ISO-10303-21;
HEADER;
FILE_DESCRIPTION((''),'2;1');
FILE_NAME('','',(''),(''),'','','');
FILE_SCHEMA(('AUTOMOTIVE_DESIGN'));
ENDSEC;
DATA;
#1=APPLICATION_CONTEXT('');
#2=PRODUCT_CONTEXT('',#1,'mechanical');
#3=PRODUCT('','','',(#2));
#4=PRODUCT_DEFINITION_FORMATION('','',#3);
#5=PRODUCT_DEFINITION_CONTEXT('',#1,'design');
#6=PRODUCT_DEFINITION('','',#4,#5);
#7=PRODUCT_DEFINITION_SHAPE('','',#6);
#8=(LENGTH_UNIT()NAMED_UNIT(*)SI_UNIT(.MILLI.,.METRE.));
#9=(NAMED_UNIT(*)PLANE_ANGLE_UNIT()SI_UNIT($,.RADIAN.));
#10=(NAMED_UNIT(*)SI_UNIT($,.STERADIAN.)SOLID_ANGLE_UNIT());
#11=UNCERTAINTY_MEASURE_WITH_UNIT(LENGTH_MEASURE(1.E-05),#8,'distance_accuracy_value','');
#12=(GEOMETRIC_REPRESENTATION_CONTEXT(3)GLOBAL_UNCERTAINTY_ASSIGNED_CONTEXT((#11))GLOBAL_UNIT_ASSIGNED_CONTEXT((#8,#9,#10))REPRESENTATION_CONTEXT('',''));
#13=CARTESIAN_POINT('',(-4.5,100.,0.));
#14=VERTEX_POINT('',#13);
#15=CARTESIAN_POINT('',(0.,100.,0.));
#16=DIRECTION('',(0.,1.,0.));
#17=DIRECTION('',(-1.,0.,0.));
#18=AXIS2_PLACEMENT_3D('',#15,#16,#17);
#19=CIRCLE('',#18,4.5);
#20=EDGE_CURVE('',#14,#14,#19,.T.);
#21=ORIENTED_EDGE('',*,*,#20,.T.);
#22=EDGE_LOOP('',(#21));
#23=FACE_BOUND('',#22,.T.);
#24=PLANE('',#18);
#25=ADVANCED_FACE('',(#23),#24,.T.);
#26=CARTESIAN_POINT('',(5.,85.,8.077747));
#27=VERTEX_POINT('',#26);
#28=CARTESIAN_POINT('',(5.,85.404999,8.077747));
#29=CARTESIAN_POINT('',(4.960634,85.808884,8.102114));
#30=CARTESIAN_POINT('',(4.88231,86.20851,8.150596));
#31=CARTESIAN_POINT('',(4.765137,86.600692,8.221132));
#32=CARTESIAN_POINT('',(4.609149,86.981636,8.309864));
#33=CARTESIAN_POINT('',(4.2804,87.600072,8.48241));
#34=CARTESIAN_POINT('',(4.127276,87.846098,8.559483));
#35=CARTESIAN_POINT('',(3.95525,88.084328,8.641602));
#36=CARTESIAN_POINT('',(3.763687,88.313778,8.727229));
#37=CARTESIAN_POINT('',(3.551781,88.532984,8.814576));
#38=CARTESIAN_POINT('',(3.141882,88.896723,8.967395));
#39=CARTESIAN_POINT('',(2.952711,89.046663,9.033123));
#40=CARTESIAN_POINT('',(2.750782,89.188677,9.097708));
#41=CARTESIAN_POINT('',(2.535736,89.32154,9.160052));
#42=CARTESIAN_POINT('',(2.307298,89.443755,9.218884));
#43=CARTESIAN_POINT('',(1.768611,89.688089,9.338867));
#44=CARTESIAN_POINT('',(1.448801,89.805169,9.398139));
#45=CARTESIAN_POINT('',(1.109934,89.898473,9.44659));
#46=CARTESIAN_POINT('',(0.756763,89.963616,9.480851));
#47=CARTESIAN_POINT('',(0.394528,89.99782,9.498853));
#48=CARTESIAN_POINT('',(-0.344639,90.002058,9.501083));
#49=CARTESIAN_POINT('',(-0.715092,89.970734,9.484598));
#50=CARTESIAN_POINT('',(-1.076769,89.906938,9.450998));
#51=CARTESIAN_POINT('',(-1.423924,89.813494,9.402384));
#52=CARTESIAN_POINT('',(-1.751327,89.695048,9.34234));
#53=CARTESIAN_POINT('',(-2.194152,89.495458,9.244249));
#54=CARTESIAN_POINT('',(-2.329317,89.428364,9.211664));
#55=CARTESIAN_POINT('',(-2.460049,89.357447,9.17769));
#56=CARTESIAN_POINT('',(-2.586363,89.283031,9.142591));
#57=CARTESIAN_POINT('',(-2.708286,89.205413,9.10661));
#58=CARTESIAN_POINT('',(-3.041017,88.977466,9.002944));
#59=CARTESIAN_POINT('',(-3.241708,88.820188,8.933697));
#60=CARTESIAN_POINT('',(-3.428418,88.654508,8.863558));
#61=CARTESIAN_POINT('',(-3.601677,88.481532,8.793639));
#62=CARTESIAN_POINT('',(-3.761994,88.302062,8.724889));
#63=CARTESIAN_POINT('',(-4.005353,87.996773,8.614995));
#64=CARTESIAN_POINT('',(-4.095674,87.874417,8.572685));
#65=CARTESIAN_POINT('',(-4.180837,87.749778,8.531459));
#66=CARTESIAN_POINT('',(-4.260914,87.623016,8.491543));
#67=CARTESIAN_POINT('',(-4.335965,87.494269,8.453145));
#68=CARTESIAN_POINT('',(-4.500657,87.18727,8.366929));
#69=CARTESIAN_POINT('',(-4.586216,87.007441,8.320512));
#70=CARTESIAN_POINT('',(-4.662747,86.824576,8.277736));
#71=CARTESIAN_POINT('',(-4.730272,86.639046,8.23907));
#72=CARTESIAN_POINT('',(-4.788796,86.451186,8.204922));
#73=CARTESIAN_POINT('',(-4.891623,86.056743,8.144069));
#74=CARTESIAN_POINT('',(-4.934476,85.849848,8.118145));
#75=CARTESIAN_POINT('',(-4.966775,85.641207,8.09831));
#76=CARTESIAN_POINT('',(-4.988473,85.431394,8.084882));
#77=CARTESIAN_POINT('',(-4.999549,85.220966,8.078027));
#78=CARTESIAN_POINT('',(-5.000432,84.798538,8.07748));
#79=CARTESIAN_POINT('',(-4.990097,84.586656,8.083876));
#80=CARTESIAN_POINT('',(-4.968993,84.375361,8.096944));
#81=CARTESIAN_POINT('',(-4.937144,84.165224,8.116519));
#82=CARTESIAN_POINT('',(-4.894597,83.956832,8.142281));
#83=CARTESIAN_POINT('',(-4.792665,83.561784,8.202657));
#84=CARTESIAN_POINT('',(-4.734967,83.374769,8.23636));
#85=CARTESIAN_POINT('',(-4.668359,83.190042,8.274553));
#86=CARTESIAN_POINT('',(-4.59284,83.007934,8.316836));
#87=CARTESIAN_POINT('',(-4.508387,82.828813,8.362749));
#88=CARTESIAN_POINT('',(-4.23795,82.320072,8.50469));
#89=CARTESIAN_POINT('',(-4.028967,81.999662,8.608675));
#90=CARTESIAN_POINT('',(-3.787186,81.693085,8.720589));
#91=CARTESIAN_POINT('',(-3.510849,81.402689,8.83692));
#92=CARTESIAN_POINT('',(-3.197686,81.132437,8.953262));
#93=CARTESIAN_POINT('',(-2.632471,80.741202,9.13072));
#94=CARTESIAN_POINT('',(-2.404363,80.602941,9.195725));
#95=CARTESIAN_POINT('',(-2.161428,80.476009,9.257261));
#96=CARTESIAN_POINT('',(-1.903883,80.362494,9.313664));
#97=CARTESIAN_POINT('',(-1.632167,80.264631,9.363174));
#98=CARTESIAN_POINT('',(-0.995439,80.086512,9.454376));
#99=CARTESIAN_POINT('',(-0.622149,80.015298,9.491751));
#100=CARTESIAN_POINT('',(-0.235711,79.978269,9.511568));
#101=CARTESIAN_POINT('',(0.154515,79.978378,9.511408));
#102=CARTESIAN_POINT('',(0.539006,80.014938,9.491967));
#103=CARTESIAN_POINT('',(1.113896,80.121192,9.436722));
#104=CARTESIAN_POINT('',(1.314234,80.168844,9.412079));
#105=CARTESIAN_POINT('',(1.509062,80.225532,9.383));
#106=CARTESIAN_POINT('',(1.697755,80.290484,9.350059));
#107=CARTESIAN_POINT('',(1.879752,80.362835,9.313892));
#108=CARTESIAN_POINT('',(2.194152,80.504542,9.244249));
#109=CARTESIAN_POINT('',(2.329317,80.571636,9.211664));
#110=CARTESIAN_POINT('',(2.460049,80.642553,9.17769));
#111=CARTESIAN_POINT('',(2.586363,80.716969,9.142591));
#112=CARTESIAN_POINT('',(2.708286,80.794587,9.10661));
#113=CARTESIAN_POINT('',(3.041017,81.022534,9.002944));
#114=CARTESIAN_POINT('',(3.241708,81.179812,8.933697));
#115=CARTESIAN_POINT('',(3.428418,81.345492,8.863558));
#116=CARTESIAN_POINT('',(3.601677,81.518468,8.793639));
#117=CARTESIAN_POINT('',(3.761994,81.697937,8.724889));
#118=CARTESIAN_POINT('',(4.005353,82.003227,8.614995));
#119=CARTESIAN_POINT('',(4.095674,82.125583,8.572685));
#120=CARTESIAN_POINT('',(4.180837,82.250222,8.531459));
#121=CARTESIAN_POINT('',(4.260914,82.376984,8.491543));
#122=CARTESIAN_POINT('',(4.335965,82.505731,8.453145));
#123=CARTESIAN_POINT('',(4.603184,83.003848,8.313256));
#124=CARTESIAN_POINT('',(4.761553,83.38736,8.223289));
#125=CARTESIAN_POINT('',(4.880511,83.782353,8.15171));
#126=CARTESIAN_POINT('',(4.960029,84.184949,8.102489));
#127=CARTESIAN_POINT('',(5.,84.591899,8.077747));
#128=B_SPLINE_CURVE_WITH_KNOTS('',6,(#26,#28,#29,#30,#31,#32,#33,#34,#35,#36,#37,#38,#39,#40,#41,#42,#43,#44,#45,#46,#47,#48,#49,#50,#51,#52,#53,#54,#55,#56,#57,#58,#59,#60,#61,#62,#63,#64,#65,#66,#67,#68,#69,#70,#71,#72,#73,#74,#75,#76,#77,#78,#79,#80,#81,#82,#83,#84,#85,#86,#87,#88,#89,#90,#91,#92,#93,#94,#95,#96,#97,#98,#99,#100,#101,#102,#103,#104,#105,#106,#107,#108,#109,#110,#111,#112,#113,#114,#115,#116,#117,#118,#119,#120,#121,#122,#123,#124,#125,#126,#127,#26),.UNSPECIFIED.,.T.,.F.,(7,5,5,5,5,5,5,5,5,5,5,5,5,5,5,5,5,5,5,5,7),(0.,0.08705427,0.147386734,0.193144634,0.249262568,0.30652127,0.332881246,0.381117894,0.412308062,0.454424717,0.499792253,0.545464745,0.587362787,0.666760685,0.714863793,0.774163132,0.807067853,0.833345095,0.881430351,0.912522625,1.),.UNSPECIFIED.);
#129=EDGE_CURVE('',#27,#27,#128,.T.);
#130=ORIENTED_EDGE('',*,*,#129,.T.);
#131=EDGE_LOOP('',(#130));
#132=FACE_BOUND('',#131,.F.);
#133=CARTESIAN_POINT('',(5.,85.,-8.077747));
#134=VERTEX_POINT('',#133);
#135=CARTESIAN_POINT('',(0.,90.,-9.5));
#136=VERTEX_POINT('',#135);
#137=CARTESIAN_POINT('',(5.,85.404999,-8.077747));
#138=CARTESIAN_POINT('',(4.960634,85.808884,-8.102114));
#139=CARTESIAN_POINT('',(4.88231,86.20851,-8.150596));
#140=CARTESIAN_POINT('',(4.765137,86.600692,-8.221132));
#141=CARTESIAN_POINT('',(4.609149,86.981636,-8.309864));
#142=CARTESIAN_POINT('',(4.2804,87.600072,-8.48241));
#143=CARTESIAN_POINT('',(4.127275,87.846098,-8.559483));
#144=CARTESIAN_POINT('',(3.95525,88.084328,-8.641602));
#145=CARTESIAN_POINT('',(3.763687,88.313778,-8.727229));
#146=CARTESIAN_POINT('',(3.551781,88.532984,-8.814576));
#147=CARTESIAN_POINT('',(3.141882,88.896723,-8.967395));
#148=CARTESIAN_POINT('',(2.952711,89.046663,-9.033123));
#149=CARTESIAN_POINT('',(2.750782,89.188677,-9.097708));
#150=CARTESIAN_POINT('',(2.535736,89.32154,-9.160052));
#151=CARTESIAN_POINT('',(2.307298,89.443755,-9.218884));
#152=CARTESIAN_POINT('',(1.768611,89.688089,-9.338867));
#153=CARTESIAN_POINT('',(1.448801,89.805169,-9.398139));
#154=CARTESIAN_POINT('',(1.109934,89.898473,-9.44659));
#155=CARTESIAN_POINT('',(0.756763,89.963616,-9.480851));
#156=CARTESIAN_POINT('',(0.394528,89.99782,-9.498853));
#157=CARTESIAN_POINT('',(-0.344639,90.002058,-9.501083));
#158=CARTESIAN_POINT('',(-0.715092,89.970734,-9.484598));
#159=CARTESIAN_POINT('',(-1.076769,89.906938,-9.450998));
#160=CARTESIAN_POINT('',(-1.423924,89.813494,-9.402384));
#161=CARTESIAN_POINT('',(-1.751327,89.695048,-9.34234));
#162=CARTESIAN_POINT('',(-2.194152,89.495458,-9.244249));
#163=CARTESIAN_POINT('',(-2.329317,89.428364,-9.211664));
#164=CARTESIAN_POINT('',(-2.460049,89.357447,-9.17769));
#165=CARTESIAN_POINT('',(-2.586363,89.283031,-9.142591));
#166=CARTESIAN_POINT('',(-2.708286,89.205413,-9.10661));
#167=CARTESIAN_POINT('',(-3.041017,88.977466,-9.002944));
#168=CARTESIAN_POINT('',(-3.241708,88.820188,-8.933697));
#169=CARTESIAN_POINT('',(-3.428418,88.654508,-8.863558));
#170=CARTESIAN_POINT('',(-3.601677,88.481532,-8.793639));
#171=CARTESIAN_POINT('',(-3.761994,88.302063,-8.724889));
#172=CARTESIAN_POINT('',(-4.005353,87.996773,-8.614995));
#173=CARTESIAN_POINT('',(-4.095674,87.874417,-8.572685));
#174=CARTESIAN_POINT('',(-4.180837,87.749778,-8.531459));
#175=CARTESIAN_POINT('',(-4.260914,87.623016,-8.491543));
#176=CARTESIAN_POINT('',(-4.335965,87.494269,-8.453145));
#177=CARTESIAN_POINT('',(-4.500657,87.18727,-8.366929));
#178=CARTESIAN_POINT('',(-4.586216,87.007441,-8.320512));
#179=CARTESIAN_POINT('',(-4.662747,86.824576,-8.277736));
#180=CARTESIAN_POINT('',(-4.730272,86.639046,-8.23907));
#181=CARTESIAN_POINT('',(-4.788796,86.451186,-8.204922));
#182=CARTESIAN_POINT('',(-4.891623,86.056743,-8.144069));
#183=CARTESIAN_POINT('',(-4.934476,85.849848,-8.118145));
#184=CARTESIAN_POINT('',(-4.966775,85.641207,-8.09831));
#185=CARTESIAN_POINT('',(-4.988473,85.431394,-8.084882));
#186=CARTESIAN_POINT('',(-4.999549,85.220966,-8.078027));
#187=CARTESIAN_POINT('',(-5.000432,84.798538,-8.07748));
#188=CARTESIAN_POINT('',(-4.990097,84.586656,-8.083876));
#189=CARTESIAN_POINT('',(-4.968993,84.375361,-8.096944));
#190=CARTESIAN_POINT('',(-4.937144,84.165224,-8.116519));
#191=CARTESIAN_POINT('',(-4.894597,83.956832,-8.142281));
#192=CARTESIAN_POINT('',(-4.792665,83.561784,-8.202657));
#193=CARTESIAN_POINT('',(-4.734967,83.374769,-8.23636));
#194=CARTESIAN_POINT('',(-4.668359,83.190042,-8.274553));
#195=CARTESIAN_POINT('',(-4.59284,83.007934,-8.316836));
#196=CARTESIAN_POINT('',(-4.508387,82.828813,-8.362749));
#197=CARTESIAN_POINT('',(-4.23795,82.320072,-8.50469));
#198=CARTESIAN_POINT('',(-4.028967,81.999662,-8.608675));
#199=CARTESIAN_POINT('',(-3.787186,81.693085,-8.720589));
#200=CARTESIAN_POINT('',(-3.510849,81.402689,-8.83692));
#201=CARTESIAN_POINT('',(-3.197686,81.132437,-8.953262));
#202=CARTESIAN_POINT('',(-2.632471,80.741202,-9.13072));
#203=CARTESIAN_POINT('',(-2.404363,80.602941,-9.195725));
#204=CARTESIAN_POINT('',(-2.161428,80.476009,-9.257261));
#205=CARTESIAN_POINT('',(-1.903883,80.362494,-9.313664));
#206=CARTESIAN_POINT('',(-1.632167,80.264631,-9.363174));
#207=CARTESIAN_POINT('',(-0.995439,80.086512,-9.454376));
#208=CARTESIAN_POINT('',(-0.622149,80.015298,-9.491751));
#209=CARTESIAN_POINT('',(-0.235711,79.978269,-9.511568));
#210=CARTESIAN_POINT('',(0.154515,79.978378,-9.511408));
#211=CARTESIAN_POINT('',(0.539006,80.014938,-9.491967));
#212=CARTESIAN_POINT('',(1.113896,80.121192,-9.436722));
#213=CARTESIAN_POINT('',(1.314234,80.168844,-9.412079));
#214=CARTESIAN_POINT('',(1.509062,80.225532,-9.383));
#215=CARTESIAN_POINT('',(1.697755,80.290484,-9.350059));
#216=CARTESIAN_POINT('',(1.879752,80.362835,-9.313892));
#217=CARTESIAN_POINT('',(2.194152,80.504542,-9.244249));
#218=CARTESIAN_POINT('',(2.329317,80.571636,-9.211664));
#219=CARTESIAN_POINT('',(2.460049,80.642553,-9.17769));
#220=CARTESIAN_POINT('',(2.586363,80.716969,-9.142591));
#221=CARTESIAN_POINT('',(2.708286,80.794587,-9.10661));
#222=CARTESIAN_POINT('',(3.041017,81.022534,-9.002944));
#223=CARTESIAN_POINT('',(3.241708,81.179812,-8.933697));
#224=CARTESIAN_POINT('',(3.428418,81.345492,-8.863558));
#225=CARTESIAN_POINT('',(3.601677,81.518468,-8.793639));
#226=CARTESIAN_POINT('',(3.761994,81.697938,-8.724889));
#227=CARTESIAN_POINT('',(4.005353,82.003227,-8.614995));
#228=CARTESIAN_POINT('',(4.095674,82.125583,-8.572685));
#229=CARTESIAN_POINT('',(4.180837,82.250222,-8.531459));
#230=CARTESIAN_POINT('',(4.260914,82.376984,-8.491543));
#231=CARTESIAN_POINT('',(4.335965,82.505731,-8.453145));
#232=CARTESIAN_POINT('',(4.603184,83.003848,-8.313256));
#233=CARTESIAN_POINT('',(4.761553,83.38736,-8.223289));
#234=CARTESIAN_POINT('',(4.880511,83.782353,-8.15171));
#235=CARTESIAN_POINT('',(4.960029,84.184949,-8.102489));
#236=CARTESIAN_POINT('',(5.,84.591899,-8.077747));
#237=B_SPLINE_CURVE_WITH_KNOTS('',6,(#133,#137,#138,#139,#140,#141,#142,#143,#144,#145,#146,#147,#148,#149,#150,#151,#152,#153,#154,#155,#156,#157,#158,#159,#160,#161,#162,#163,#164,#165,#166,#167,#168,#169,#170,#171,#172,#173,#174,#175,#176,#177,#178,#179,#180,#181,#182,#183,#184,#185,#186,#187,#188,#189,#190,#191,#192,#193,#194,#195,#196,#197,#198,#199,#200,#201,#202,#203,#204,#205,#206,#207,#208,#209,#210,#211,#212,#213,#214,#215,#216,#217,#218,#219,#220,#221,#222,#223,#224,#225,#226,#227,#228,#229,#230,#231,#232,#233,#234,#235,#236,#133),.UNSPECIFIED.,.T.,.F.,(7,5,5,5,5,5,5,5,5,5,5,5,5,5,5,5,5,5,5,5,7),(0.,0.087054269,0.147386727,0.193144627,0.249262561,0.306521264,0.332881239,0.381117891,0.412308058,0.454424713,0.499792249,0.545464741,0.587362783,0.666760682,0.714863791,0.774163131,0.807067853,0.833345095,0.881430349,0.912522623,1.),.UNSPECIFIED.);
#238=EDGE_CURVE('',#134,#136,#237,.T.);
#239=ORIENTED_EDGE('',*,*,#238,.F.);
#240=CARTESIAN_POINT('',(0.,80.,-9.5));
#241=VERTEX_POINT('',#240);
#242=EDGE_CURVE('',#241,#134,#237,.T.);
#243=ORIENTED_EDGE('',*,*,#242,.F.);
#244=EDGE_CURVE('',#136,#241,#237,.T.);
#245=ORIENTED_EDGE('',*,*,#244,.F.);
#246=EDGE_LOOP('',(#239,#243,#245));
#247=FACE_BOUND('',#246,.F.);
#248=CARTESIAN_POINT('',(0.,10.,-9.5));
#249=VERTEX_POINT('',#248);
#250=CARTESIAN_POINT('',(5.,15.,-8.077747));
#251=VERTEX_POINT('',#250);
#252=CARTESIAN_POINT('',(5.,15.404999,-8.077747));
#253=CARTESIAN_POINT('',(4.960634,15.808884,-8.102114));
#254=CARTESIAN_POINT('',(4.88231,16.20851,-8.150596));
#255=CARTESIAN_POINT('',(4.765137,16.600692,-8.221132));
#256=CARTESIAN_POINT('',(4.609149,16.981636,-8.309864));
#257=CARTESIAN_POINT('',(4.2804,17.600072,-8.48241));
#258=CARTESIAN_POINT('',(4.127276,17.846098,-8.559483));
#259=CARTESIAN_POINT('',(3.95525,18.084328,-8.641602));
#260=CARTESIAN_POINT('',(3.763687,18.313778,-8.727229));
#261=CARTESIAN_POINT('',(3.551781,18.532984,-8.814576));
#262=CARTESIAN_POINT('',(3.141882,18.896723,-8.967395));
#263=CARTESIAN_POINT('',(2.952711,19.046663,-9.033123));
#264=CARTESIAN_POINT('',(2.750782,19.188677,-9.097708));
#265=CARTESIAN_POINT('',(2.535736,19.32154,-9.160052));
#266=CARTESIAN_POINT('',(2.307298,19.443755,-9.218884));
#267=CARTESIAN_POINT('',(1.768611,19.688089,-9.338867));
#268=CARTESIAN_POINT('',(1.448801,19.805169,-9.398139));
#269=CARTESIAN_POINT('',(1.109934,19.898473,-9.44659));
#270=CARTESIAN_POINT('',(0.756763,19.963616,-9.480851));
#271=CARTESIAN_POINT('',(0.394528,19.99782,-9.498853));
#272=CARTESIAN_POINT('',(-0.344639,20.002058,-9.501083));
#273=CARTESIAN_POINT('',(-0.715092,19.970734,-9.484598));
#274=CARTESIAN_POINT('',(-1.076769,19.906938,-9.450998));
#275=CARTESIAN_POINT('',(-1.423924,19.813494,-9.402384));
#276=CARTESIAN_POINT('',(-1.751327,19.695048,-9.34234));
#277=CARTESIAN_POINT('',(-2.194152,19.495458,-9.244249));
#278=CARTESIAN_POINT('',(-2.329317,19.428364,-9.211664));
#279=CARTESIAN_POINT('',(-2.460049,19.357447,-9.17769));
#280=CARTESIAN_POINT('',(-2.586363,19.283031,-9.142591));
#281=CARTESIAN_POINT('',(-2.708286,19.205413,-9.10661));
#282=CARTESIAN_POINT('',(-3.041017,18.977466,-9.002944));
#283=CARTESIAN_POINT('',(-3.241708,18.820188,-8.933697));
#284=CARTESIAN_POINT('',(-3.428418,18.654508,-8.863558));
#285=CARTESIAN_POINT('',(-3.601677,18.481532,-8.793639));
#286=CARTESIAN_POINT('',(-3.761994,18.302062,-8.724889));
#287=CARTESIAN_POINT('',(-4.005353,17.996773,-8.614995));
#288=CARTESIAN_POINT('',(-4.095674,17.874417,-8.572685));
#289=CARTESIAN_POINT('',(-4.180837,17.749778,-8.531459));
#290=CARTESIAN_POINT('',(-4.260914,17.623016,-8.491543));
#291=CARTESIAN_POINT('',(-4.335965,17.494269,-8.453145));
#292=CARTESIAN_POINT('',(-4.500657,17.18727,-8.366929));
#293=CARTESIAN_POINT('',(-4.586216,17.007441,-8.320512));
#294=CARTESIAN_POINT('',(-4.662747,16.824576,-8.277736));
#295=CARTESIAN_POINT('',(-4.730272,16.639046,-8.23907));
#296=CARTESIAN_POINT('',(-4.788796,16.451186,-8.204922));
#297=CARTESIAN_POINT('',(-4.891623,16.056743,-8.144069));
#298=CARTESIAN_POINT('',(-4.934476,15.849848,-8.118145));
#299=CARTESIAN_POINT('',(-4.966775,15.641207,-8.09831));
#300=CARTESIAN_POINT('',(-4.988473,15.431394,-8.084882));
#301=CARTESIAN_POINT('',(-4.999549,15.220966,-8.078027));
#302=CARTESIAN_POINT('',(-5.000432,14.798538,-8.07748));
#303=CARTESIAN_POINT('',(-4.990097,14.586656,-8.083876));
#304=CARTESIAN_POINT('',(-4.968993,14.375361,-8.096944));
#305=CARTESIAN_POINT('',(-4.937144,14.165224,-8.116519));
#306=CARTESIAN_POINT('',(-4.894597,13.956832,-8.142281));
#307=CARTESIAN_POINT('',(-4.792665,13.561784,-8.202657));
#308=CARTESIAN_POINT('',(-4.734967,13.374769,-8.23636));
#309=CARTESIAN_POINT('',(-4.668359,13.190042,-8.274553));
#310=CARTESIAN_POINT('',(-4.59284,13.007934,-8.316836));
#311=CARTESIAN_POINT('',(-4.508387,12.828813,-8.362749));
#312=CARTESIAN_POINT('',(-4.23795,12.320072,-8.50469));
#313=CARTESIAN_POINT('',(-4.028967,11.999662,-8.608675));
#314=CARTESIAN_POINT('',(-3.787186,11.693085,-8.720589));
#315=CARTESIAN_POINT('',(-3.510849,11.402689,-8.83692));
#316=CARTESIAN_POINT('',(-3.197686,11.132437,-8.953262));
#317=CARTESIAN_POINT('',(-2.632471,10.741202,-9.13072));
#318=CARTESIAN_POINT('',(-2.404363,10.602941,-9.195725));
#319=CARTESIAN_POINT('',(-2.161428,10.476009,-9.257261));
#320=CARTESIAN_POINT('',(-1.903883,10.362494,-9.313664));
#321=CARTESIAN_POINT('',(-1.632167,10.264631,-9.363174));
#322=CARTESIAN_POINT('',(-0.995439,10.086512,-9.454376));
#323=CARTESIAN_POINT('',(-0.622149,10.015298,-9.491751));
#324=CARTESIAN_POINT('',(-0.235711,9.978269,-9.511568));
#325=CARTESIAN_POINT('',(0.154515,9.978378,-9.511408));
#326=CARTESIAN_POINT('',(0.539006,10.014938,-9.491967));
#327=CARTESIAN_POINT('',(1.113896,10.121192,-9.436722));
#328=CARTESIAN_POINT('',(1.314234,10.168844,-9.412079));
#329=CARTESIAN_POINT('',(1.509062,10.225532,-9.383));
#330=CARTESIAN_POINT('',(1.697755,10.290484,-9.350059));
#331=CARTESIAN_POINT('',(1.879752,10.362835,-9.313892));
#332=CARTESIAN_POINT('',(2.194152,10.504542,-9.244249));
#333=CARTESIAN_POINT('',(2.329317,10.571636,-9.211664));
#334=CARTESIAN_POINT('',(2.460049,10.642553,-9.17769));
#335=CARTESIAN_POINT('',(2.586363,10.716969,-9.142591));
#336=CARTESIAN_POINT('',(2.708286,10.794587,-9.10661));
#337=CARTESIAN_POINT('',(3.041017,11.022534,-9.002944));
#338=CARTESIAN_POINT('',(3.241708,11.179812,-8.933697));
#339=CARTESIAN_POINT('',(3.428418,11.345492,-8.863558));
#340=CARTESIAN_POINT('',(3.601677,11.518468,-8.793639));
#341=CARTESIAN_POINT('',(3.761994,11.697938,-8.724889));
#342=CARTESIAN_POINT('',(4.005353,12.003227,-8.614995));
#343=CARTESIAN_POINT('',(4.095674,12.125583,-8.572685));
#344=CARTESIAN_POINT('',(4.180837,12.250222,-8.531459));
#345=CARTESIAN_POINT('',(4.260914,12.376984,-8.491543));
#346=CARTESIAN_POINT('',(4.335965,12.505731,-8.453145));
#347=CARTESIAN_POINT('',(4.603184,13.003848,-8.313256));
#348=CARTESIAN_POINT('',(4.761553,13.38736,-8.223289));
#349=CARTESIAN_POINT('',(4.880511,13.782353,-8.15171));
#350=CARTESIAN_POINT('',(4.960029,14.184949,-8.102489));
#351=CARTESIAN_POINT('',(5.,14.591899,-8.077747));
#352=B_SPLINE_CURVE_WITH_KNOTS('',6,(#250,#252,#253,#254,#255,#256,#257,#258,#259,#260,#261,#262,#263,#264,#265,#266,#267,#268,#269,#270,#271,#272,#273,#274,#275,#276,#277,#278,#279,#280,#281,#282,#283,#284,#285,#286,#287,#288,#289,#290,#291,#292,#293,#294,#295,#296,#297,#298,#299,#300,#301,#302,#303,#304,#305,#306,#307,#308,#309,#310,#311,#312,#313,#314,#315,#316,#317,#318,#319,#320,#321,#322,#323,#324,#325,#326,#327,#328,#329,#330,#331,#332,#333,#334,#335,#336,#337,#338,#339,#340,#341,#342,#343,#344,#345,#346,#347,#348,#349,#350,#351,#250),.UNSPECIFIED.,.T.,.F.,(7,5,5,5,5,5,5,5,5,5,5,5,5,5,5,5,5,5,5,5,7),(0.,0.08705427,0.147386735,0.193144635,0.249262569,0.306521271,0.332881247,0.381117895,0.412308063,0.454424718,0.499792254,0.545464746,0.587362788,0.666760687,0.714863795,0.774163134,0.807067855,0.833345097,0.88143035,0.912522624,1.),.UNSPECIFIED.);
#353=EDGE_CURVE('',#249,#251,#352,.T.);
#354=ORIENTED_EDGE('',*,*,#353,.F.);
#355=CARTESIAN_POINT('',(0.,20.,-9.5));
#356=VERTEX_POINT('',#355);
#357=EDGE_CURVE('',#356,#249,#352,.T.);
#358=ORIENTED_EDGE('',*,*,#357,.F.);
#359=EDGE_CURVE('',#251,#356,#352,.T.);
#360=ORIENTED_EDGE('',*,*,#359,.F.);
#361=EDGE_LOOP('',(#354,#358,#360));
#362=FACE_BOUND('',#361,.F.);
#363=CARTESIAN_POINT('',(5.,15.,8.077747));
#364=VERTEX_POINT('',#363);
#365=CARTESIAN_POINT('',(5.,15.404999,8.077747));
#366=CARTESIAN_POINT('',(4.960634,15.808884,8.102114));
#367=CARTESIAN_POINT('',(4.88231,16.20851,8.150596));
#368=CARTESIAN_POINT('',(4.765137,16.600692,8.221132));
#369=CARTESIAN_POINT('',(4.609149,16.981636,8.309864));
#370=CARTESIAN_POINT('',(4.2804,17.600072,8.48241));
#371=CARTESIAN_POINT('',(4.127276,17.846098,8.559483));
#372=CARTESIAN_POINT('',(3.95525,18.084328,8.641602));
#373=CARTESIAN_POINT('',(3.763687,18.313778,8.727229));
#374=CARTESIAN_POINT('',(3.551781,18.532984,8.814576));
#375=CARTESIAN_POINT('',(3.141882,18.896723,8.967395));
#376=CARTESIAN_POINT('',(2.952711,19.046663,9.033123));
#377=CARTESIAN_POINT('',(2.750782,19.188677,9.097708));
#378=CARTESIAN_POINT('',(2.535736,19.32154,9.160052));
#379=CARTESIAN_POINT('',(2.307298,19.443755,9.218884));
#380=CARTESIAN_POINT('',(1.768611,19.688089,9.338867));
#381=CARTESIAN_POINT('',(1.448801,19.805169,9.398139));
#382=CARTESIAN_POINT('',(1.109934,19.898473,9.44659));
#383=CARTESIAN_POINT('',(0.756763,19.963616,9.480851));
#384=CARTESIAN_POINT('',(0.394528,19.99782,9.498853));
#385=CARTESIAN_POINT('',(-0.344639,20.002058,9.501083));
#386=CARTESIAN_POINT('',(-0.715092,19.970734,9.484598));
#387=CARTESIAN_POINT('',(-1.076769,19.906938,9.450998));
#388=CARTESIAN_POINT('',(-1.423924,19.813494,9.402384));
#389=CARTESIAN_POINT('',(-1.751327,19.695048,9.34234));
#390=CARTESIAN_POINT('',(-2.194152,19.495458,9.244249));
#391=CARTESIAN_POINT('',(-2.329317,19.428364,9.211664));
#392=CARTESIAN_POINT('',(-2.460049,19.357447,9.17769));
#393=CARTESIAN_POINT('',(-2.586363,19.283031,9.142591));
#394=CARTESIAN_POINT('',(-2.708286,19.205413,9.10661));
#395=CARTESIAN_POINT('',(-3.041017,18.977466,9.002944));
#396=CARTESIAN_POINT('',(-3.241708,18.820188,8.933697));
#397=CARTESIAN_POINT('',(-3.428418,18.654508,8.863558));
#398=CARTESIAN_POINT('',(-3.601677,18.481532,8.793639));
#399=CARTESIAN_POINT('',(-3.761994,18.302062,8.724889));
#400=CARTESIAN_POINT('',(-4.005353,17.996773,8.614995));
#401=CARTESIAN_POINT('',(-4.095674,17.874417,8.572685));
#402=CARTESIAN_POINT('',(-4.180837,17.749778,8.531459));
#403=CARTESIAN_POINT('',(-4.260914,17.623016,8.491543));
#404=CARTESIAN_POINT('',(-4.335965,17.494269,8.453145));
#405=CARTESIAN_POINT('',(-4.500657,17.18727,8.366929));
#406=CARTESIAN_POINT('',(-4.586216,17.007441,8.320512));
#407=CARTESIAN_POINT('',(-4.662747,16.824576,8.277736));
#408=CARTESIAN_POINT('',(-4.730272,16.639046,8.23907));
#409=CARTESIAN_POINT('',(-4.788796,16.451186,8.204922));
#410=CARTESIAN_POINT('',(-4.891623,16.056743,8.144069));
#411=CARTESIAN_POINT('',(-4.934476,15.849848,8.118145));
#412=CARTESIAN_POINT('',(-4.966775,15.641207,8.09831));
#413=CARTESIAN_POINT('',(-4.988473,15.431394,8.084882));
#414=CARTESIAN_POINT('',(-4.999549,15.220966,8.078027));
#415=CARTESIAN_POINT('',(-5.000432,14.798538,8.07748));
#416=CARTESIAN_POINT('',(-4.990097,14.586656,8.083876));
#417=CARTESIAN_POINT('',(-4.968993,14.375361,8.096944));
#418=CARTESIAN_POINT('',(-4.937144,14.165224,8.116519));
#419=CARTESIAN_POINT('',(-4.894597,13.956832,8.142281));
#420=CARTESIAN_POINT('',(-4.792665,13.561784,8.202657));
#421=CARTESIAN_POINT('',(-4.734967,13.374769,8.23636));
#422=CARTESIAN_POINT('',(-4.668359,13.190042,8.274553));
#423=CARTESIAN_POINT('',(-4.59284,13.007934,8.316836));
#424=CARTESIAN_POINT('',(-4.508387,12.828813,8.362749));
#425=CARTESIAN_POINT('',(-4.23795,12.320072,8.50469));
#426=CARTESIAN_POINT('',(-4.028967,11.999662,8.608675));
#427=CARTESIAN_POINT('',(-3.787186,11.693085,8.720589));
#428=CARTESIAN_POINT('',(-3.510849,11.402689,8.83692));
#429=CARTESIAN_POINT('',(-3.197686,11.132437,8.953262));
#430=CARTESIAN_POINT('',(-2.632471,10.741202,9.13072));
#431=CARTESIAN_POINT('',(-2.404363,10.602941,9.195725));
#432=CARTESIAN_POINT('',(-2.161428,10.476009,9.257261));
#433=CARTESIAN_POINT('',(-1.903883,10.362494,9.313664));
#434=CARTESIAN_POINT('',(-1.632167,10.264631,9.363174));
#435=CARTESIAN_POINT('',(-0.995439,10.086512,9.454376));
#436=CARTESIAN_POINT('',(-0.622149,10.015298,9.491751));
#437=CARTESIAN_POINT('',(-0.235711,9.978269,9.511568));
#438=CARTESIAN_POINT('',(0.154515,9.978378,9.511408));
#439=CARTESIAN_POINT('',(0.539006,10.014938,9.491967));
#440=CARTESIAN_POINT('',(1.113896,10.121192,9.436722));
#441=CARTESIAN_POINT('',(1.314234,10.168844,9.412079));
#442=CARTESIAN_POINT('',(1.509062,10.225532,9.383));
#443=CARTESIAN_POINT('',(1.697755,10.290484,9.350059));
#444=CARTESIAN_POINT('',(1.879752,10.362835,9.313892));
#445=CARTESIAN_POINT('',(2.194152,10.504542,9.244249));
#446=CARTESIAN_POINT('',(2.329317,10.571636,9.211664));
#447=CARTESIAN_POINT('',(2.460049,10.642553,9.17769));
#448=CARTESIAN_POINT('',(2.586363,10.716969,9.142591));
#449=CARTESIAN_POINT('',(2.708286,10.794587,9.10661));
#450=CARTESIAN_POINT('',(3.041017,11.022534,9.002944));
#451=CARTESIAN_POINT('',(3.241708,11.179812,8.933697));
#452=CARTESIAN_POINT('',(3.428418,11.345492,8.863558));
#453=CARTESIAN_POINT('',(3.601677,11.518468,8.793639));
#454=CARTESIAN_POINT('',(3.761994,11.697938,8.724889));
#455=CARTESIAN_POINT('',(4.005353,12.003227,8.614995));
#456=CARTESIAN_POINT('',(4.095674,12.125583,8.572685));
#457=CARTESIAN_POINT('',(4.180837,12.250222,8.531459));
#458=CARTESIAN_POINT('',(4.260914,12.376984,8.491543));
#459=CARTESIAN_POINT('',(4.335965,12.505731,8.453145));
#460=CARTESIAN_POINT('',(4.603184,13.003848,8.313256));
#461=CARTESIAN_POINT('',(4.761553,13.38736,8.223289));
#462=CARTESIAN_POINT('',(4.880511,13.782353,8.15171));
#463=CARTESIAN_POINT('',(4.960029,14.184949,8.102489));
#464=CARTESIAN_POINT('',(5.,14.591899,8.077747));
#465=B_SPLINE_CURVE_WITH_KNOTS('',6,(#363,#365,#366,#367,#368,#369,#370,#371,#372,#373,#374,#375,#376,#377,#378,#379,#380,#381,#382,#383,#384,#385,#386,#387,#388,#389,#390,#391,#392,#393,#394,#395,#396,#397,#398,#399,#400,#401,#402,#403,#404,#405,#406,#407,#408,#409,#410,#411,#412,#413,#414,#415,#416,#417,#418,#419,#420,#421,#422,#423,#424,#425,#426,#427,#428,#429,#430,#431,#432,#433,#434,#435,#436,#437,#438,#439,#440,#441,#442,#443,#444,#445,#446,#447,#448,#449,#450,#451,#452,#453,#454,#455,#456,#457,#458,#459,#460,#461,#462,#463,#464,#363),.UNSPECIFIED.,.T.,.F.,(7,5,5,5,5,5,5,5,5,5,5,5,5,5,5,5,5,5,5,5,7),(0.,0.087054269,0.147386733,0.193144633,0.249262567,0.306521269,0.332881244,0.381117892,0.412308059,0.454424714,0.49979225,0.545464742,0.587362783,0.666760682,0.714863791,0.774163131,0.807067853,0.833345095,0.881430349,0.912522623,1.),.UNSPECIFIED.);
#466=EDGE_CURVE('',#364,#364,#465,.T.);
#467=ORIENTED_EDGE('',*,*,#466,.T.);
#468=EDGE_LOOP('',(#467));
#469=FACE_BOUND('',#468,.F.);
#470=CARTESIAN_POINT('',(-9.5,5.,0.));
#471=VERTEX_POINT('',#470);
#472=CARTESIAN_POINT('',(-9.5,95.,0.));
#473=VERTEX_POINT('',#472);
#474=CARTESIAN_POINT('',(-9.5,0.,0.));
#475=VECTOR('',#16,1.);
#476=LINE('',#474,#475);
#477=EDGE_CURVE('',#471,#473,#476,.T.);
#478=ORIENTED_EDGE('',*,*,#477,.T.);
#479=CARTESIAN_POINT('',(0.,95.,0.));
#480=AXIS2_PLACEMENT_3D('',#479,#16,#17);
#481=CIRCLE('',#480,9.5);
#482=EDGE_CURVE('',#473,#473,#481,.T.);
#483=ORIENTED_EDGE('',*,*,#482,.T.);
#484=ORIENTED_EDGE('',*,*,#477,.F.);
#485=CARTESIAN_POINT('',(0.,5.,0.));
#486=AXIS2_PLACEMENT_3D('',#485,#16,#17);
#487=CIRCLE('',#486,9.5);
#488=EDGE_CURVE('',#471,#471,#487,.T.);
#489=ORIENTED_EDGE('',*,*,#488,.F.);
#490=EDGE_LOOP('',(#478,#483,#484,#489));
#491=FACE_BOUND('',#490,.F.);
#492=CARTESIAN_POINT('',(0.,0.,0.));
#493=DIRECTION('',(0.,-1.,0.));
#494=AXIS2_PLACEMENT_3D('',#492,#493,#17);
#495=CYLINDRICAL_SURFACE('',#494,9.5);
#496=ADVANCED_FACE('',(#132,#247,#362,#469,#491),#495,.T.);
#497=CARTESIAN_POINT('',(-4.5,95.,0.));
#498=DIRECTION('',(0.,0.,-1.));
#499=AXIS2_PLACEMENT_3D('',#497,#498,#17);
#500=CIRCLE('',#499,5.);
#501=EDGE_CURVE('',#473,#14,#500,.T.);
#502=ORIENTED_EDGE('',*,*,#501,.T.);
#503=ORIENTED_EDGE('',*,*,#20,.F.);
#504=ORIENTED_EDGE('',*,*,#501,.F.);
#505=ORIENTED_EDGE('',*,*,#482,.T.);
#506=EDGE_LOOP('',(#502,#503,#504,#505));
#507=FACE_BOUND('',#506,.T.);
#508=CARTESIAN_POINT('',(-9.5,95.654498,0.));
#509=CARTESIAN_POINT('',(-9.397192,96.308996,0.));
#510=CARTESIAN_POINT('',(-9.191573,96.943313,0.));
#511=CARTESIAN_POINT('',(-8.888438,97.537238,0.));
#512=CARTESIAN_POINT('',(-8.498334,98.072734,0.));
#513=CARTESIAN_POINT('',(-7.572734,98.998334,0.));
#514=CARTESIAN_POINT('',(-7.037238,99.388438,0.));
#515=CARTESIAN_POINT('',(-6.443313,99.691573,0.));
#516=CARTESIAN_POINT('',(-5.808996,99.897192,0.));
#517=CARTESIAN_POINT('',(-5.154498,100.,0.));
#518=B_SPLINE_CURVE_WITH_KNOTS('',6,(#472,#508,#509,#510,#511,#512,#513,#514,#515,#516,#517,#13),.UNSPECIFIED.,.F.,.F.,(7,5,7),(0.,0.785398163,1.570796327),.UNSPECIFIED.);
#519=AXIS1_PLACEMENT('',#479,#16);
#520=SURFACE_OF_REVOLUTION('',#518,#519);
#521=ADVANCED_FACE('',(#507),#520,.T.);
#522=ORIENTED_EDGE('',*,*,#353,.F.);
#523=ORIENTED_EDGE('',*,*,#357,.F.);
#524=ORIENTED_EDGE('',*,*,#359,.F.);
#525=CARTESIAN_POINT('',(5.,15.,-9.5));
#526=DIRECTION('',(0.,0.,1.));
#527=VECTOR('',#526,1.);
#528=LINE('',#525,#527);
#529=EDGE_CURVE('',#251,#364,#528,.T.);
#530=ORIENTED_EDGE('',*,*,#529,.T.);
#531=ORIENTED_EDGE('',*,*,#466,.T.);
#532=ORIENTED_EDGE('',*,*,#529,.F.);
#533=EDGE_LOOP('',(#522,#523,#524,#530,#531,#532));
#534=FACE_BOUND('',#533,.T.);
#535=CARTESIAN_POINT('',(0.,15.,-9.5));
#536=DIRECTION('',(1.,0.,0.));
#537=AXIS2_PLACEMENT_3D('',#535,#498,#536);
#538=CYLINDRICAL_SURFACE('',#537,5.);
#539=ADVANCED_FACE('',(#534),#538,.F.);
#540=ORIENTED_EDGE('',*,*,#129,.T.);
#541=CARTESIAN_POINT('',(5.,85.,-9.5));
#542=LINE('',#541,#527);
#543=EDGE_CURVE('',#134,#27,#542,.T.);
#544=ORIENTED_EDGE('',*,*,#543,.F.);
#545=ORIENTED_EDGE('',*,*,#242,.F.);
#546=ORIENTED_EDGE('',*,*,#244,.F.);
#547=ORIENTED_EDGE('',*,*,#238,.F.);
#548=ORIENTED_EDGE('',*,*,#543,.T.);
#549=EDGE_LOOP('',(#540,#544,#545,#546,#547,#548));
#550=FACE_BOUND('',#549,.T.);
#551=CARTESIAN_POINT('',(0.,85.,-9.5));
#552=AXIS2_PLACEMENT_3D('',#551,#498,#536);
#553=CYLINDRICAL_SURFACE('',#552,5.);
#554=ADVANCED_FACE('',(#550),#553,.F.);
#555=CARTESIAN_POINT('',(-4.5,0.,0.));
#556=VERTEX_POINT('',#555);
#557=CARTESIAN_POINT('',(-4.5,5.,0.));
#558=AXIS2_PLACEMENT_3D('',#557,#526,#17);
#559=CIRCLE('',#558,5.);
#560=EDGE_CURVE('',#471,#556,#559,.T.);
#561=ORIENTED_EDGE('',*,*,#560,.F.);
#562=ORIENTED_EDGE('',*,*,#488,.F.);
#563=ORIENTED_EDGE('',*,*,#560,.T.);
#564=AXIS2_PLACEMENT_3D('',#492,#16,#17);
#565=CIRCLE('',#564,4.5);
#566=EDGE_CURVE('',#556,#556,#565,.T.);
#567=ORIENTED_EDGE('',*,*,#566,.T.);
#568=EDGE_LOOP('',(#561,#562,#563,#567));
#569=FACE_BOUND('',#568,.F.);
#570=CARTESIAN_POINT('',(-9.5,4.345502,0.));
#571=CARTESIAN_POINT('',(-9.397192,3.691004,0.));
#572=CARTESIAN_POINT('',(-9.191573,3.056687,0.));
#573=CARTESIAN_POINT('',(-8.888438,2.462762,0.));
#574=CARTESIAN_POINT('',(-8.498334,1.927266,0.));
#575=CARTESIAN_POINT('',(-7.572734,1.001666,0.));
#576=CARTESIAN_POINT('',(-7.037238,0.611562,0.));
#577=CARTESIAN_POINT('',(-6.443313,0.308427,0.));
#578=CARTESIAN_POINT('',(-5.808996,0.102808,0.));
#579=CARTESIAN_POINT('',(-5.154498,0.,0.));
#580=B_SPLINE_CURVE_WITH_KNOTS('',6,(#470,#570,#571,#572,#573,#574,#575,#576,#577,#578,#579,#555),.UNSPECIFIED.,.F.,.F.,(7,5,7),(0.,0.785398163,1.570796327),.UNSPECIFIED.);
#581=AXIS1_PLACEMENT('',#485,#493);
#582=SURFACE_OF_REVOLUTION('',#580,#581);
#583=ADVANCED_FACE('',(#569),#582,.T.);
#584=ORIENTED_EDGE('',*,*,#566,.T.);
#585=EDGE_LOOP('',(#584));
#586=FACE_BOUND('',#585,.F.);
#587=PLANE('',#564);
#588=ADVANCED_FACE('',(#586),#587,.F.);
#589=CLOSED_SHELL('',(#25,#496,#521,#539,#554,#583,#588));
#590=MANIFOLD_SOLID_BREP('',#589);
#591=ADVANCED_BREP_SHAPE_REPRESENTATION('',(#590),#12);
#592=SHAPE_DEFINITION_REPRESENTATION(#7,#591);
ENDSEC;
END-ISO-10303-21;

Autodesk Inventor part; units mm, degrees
ref_plane "YZ Plane" through (0, 0, 0) normal (1, 0, 0) x (0, 1, 0)
ref_plane "XZ Plane" through (0, 0, 0) normal (0, 1, 0) x (-1, 0, 0)
sketch "Sketch1" plane through (0, 0, 0) normal (0, 1, 0) x (-1, 0, 0)
  circle A0 centre (0, 0) radius 9.5
  dimension "d0" = 19
extrude "Extrusion1" add sketch "Sketch1" along normal blind 100
ref_plane "Work Plane1" through (0, 0, -9.5) normal (0, 0, 1) x (1, 0, 0)
sketch "Sketch2" plane through (0, 0, -9.5) normal (0, 0, 1) x (1, 0, 0)
  line L0 (0, 0) -> (0, 100)
  line L1 (9.5, 100) -> (-9.5, 100) projected
  line L2 (0, 50) -> (0, 15)
  line L3 (0, 50) -> (0, 85)
  circle A0 centre (0, 15) radius 5
  circle A1 centre (0, 85) radius 5
  dimension "d4" = 35
  dimension "d5" = 35
  dimension "d6" = 10
  dimension "d7" = 10
extrude "Extrusion2" cut sketch "Sketch2" along normal blind 20
fillet "Fillet1" radius 5 2 edges at (9.5, 100, 0) (9.5, 0, 0)
equation "\"BendRadius\" = Thickness"
equation "\"BendReliefWidth\" = Thickness"
equation "\"BendReliefDepth\" = 0.5 * Thickness"
equation "\"CornerReliefSize\" = 4 * Thickness"
equation "\"MinimumRemnant\" = 2 * Thickness"
equation "\"TransitionRadius\" = BendRadius"
equation "\"JacobiRadiusSize\" = BendRadius"
equation "\"GapSize\" = Thickness"
equation "\"Thickness\" = 0.5"
